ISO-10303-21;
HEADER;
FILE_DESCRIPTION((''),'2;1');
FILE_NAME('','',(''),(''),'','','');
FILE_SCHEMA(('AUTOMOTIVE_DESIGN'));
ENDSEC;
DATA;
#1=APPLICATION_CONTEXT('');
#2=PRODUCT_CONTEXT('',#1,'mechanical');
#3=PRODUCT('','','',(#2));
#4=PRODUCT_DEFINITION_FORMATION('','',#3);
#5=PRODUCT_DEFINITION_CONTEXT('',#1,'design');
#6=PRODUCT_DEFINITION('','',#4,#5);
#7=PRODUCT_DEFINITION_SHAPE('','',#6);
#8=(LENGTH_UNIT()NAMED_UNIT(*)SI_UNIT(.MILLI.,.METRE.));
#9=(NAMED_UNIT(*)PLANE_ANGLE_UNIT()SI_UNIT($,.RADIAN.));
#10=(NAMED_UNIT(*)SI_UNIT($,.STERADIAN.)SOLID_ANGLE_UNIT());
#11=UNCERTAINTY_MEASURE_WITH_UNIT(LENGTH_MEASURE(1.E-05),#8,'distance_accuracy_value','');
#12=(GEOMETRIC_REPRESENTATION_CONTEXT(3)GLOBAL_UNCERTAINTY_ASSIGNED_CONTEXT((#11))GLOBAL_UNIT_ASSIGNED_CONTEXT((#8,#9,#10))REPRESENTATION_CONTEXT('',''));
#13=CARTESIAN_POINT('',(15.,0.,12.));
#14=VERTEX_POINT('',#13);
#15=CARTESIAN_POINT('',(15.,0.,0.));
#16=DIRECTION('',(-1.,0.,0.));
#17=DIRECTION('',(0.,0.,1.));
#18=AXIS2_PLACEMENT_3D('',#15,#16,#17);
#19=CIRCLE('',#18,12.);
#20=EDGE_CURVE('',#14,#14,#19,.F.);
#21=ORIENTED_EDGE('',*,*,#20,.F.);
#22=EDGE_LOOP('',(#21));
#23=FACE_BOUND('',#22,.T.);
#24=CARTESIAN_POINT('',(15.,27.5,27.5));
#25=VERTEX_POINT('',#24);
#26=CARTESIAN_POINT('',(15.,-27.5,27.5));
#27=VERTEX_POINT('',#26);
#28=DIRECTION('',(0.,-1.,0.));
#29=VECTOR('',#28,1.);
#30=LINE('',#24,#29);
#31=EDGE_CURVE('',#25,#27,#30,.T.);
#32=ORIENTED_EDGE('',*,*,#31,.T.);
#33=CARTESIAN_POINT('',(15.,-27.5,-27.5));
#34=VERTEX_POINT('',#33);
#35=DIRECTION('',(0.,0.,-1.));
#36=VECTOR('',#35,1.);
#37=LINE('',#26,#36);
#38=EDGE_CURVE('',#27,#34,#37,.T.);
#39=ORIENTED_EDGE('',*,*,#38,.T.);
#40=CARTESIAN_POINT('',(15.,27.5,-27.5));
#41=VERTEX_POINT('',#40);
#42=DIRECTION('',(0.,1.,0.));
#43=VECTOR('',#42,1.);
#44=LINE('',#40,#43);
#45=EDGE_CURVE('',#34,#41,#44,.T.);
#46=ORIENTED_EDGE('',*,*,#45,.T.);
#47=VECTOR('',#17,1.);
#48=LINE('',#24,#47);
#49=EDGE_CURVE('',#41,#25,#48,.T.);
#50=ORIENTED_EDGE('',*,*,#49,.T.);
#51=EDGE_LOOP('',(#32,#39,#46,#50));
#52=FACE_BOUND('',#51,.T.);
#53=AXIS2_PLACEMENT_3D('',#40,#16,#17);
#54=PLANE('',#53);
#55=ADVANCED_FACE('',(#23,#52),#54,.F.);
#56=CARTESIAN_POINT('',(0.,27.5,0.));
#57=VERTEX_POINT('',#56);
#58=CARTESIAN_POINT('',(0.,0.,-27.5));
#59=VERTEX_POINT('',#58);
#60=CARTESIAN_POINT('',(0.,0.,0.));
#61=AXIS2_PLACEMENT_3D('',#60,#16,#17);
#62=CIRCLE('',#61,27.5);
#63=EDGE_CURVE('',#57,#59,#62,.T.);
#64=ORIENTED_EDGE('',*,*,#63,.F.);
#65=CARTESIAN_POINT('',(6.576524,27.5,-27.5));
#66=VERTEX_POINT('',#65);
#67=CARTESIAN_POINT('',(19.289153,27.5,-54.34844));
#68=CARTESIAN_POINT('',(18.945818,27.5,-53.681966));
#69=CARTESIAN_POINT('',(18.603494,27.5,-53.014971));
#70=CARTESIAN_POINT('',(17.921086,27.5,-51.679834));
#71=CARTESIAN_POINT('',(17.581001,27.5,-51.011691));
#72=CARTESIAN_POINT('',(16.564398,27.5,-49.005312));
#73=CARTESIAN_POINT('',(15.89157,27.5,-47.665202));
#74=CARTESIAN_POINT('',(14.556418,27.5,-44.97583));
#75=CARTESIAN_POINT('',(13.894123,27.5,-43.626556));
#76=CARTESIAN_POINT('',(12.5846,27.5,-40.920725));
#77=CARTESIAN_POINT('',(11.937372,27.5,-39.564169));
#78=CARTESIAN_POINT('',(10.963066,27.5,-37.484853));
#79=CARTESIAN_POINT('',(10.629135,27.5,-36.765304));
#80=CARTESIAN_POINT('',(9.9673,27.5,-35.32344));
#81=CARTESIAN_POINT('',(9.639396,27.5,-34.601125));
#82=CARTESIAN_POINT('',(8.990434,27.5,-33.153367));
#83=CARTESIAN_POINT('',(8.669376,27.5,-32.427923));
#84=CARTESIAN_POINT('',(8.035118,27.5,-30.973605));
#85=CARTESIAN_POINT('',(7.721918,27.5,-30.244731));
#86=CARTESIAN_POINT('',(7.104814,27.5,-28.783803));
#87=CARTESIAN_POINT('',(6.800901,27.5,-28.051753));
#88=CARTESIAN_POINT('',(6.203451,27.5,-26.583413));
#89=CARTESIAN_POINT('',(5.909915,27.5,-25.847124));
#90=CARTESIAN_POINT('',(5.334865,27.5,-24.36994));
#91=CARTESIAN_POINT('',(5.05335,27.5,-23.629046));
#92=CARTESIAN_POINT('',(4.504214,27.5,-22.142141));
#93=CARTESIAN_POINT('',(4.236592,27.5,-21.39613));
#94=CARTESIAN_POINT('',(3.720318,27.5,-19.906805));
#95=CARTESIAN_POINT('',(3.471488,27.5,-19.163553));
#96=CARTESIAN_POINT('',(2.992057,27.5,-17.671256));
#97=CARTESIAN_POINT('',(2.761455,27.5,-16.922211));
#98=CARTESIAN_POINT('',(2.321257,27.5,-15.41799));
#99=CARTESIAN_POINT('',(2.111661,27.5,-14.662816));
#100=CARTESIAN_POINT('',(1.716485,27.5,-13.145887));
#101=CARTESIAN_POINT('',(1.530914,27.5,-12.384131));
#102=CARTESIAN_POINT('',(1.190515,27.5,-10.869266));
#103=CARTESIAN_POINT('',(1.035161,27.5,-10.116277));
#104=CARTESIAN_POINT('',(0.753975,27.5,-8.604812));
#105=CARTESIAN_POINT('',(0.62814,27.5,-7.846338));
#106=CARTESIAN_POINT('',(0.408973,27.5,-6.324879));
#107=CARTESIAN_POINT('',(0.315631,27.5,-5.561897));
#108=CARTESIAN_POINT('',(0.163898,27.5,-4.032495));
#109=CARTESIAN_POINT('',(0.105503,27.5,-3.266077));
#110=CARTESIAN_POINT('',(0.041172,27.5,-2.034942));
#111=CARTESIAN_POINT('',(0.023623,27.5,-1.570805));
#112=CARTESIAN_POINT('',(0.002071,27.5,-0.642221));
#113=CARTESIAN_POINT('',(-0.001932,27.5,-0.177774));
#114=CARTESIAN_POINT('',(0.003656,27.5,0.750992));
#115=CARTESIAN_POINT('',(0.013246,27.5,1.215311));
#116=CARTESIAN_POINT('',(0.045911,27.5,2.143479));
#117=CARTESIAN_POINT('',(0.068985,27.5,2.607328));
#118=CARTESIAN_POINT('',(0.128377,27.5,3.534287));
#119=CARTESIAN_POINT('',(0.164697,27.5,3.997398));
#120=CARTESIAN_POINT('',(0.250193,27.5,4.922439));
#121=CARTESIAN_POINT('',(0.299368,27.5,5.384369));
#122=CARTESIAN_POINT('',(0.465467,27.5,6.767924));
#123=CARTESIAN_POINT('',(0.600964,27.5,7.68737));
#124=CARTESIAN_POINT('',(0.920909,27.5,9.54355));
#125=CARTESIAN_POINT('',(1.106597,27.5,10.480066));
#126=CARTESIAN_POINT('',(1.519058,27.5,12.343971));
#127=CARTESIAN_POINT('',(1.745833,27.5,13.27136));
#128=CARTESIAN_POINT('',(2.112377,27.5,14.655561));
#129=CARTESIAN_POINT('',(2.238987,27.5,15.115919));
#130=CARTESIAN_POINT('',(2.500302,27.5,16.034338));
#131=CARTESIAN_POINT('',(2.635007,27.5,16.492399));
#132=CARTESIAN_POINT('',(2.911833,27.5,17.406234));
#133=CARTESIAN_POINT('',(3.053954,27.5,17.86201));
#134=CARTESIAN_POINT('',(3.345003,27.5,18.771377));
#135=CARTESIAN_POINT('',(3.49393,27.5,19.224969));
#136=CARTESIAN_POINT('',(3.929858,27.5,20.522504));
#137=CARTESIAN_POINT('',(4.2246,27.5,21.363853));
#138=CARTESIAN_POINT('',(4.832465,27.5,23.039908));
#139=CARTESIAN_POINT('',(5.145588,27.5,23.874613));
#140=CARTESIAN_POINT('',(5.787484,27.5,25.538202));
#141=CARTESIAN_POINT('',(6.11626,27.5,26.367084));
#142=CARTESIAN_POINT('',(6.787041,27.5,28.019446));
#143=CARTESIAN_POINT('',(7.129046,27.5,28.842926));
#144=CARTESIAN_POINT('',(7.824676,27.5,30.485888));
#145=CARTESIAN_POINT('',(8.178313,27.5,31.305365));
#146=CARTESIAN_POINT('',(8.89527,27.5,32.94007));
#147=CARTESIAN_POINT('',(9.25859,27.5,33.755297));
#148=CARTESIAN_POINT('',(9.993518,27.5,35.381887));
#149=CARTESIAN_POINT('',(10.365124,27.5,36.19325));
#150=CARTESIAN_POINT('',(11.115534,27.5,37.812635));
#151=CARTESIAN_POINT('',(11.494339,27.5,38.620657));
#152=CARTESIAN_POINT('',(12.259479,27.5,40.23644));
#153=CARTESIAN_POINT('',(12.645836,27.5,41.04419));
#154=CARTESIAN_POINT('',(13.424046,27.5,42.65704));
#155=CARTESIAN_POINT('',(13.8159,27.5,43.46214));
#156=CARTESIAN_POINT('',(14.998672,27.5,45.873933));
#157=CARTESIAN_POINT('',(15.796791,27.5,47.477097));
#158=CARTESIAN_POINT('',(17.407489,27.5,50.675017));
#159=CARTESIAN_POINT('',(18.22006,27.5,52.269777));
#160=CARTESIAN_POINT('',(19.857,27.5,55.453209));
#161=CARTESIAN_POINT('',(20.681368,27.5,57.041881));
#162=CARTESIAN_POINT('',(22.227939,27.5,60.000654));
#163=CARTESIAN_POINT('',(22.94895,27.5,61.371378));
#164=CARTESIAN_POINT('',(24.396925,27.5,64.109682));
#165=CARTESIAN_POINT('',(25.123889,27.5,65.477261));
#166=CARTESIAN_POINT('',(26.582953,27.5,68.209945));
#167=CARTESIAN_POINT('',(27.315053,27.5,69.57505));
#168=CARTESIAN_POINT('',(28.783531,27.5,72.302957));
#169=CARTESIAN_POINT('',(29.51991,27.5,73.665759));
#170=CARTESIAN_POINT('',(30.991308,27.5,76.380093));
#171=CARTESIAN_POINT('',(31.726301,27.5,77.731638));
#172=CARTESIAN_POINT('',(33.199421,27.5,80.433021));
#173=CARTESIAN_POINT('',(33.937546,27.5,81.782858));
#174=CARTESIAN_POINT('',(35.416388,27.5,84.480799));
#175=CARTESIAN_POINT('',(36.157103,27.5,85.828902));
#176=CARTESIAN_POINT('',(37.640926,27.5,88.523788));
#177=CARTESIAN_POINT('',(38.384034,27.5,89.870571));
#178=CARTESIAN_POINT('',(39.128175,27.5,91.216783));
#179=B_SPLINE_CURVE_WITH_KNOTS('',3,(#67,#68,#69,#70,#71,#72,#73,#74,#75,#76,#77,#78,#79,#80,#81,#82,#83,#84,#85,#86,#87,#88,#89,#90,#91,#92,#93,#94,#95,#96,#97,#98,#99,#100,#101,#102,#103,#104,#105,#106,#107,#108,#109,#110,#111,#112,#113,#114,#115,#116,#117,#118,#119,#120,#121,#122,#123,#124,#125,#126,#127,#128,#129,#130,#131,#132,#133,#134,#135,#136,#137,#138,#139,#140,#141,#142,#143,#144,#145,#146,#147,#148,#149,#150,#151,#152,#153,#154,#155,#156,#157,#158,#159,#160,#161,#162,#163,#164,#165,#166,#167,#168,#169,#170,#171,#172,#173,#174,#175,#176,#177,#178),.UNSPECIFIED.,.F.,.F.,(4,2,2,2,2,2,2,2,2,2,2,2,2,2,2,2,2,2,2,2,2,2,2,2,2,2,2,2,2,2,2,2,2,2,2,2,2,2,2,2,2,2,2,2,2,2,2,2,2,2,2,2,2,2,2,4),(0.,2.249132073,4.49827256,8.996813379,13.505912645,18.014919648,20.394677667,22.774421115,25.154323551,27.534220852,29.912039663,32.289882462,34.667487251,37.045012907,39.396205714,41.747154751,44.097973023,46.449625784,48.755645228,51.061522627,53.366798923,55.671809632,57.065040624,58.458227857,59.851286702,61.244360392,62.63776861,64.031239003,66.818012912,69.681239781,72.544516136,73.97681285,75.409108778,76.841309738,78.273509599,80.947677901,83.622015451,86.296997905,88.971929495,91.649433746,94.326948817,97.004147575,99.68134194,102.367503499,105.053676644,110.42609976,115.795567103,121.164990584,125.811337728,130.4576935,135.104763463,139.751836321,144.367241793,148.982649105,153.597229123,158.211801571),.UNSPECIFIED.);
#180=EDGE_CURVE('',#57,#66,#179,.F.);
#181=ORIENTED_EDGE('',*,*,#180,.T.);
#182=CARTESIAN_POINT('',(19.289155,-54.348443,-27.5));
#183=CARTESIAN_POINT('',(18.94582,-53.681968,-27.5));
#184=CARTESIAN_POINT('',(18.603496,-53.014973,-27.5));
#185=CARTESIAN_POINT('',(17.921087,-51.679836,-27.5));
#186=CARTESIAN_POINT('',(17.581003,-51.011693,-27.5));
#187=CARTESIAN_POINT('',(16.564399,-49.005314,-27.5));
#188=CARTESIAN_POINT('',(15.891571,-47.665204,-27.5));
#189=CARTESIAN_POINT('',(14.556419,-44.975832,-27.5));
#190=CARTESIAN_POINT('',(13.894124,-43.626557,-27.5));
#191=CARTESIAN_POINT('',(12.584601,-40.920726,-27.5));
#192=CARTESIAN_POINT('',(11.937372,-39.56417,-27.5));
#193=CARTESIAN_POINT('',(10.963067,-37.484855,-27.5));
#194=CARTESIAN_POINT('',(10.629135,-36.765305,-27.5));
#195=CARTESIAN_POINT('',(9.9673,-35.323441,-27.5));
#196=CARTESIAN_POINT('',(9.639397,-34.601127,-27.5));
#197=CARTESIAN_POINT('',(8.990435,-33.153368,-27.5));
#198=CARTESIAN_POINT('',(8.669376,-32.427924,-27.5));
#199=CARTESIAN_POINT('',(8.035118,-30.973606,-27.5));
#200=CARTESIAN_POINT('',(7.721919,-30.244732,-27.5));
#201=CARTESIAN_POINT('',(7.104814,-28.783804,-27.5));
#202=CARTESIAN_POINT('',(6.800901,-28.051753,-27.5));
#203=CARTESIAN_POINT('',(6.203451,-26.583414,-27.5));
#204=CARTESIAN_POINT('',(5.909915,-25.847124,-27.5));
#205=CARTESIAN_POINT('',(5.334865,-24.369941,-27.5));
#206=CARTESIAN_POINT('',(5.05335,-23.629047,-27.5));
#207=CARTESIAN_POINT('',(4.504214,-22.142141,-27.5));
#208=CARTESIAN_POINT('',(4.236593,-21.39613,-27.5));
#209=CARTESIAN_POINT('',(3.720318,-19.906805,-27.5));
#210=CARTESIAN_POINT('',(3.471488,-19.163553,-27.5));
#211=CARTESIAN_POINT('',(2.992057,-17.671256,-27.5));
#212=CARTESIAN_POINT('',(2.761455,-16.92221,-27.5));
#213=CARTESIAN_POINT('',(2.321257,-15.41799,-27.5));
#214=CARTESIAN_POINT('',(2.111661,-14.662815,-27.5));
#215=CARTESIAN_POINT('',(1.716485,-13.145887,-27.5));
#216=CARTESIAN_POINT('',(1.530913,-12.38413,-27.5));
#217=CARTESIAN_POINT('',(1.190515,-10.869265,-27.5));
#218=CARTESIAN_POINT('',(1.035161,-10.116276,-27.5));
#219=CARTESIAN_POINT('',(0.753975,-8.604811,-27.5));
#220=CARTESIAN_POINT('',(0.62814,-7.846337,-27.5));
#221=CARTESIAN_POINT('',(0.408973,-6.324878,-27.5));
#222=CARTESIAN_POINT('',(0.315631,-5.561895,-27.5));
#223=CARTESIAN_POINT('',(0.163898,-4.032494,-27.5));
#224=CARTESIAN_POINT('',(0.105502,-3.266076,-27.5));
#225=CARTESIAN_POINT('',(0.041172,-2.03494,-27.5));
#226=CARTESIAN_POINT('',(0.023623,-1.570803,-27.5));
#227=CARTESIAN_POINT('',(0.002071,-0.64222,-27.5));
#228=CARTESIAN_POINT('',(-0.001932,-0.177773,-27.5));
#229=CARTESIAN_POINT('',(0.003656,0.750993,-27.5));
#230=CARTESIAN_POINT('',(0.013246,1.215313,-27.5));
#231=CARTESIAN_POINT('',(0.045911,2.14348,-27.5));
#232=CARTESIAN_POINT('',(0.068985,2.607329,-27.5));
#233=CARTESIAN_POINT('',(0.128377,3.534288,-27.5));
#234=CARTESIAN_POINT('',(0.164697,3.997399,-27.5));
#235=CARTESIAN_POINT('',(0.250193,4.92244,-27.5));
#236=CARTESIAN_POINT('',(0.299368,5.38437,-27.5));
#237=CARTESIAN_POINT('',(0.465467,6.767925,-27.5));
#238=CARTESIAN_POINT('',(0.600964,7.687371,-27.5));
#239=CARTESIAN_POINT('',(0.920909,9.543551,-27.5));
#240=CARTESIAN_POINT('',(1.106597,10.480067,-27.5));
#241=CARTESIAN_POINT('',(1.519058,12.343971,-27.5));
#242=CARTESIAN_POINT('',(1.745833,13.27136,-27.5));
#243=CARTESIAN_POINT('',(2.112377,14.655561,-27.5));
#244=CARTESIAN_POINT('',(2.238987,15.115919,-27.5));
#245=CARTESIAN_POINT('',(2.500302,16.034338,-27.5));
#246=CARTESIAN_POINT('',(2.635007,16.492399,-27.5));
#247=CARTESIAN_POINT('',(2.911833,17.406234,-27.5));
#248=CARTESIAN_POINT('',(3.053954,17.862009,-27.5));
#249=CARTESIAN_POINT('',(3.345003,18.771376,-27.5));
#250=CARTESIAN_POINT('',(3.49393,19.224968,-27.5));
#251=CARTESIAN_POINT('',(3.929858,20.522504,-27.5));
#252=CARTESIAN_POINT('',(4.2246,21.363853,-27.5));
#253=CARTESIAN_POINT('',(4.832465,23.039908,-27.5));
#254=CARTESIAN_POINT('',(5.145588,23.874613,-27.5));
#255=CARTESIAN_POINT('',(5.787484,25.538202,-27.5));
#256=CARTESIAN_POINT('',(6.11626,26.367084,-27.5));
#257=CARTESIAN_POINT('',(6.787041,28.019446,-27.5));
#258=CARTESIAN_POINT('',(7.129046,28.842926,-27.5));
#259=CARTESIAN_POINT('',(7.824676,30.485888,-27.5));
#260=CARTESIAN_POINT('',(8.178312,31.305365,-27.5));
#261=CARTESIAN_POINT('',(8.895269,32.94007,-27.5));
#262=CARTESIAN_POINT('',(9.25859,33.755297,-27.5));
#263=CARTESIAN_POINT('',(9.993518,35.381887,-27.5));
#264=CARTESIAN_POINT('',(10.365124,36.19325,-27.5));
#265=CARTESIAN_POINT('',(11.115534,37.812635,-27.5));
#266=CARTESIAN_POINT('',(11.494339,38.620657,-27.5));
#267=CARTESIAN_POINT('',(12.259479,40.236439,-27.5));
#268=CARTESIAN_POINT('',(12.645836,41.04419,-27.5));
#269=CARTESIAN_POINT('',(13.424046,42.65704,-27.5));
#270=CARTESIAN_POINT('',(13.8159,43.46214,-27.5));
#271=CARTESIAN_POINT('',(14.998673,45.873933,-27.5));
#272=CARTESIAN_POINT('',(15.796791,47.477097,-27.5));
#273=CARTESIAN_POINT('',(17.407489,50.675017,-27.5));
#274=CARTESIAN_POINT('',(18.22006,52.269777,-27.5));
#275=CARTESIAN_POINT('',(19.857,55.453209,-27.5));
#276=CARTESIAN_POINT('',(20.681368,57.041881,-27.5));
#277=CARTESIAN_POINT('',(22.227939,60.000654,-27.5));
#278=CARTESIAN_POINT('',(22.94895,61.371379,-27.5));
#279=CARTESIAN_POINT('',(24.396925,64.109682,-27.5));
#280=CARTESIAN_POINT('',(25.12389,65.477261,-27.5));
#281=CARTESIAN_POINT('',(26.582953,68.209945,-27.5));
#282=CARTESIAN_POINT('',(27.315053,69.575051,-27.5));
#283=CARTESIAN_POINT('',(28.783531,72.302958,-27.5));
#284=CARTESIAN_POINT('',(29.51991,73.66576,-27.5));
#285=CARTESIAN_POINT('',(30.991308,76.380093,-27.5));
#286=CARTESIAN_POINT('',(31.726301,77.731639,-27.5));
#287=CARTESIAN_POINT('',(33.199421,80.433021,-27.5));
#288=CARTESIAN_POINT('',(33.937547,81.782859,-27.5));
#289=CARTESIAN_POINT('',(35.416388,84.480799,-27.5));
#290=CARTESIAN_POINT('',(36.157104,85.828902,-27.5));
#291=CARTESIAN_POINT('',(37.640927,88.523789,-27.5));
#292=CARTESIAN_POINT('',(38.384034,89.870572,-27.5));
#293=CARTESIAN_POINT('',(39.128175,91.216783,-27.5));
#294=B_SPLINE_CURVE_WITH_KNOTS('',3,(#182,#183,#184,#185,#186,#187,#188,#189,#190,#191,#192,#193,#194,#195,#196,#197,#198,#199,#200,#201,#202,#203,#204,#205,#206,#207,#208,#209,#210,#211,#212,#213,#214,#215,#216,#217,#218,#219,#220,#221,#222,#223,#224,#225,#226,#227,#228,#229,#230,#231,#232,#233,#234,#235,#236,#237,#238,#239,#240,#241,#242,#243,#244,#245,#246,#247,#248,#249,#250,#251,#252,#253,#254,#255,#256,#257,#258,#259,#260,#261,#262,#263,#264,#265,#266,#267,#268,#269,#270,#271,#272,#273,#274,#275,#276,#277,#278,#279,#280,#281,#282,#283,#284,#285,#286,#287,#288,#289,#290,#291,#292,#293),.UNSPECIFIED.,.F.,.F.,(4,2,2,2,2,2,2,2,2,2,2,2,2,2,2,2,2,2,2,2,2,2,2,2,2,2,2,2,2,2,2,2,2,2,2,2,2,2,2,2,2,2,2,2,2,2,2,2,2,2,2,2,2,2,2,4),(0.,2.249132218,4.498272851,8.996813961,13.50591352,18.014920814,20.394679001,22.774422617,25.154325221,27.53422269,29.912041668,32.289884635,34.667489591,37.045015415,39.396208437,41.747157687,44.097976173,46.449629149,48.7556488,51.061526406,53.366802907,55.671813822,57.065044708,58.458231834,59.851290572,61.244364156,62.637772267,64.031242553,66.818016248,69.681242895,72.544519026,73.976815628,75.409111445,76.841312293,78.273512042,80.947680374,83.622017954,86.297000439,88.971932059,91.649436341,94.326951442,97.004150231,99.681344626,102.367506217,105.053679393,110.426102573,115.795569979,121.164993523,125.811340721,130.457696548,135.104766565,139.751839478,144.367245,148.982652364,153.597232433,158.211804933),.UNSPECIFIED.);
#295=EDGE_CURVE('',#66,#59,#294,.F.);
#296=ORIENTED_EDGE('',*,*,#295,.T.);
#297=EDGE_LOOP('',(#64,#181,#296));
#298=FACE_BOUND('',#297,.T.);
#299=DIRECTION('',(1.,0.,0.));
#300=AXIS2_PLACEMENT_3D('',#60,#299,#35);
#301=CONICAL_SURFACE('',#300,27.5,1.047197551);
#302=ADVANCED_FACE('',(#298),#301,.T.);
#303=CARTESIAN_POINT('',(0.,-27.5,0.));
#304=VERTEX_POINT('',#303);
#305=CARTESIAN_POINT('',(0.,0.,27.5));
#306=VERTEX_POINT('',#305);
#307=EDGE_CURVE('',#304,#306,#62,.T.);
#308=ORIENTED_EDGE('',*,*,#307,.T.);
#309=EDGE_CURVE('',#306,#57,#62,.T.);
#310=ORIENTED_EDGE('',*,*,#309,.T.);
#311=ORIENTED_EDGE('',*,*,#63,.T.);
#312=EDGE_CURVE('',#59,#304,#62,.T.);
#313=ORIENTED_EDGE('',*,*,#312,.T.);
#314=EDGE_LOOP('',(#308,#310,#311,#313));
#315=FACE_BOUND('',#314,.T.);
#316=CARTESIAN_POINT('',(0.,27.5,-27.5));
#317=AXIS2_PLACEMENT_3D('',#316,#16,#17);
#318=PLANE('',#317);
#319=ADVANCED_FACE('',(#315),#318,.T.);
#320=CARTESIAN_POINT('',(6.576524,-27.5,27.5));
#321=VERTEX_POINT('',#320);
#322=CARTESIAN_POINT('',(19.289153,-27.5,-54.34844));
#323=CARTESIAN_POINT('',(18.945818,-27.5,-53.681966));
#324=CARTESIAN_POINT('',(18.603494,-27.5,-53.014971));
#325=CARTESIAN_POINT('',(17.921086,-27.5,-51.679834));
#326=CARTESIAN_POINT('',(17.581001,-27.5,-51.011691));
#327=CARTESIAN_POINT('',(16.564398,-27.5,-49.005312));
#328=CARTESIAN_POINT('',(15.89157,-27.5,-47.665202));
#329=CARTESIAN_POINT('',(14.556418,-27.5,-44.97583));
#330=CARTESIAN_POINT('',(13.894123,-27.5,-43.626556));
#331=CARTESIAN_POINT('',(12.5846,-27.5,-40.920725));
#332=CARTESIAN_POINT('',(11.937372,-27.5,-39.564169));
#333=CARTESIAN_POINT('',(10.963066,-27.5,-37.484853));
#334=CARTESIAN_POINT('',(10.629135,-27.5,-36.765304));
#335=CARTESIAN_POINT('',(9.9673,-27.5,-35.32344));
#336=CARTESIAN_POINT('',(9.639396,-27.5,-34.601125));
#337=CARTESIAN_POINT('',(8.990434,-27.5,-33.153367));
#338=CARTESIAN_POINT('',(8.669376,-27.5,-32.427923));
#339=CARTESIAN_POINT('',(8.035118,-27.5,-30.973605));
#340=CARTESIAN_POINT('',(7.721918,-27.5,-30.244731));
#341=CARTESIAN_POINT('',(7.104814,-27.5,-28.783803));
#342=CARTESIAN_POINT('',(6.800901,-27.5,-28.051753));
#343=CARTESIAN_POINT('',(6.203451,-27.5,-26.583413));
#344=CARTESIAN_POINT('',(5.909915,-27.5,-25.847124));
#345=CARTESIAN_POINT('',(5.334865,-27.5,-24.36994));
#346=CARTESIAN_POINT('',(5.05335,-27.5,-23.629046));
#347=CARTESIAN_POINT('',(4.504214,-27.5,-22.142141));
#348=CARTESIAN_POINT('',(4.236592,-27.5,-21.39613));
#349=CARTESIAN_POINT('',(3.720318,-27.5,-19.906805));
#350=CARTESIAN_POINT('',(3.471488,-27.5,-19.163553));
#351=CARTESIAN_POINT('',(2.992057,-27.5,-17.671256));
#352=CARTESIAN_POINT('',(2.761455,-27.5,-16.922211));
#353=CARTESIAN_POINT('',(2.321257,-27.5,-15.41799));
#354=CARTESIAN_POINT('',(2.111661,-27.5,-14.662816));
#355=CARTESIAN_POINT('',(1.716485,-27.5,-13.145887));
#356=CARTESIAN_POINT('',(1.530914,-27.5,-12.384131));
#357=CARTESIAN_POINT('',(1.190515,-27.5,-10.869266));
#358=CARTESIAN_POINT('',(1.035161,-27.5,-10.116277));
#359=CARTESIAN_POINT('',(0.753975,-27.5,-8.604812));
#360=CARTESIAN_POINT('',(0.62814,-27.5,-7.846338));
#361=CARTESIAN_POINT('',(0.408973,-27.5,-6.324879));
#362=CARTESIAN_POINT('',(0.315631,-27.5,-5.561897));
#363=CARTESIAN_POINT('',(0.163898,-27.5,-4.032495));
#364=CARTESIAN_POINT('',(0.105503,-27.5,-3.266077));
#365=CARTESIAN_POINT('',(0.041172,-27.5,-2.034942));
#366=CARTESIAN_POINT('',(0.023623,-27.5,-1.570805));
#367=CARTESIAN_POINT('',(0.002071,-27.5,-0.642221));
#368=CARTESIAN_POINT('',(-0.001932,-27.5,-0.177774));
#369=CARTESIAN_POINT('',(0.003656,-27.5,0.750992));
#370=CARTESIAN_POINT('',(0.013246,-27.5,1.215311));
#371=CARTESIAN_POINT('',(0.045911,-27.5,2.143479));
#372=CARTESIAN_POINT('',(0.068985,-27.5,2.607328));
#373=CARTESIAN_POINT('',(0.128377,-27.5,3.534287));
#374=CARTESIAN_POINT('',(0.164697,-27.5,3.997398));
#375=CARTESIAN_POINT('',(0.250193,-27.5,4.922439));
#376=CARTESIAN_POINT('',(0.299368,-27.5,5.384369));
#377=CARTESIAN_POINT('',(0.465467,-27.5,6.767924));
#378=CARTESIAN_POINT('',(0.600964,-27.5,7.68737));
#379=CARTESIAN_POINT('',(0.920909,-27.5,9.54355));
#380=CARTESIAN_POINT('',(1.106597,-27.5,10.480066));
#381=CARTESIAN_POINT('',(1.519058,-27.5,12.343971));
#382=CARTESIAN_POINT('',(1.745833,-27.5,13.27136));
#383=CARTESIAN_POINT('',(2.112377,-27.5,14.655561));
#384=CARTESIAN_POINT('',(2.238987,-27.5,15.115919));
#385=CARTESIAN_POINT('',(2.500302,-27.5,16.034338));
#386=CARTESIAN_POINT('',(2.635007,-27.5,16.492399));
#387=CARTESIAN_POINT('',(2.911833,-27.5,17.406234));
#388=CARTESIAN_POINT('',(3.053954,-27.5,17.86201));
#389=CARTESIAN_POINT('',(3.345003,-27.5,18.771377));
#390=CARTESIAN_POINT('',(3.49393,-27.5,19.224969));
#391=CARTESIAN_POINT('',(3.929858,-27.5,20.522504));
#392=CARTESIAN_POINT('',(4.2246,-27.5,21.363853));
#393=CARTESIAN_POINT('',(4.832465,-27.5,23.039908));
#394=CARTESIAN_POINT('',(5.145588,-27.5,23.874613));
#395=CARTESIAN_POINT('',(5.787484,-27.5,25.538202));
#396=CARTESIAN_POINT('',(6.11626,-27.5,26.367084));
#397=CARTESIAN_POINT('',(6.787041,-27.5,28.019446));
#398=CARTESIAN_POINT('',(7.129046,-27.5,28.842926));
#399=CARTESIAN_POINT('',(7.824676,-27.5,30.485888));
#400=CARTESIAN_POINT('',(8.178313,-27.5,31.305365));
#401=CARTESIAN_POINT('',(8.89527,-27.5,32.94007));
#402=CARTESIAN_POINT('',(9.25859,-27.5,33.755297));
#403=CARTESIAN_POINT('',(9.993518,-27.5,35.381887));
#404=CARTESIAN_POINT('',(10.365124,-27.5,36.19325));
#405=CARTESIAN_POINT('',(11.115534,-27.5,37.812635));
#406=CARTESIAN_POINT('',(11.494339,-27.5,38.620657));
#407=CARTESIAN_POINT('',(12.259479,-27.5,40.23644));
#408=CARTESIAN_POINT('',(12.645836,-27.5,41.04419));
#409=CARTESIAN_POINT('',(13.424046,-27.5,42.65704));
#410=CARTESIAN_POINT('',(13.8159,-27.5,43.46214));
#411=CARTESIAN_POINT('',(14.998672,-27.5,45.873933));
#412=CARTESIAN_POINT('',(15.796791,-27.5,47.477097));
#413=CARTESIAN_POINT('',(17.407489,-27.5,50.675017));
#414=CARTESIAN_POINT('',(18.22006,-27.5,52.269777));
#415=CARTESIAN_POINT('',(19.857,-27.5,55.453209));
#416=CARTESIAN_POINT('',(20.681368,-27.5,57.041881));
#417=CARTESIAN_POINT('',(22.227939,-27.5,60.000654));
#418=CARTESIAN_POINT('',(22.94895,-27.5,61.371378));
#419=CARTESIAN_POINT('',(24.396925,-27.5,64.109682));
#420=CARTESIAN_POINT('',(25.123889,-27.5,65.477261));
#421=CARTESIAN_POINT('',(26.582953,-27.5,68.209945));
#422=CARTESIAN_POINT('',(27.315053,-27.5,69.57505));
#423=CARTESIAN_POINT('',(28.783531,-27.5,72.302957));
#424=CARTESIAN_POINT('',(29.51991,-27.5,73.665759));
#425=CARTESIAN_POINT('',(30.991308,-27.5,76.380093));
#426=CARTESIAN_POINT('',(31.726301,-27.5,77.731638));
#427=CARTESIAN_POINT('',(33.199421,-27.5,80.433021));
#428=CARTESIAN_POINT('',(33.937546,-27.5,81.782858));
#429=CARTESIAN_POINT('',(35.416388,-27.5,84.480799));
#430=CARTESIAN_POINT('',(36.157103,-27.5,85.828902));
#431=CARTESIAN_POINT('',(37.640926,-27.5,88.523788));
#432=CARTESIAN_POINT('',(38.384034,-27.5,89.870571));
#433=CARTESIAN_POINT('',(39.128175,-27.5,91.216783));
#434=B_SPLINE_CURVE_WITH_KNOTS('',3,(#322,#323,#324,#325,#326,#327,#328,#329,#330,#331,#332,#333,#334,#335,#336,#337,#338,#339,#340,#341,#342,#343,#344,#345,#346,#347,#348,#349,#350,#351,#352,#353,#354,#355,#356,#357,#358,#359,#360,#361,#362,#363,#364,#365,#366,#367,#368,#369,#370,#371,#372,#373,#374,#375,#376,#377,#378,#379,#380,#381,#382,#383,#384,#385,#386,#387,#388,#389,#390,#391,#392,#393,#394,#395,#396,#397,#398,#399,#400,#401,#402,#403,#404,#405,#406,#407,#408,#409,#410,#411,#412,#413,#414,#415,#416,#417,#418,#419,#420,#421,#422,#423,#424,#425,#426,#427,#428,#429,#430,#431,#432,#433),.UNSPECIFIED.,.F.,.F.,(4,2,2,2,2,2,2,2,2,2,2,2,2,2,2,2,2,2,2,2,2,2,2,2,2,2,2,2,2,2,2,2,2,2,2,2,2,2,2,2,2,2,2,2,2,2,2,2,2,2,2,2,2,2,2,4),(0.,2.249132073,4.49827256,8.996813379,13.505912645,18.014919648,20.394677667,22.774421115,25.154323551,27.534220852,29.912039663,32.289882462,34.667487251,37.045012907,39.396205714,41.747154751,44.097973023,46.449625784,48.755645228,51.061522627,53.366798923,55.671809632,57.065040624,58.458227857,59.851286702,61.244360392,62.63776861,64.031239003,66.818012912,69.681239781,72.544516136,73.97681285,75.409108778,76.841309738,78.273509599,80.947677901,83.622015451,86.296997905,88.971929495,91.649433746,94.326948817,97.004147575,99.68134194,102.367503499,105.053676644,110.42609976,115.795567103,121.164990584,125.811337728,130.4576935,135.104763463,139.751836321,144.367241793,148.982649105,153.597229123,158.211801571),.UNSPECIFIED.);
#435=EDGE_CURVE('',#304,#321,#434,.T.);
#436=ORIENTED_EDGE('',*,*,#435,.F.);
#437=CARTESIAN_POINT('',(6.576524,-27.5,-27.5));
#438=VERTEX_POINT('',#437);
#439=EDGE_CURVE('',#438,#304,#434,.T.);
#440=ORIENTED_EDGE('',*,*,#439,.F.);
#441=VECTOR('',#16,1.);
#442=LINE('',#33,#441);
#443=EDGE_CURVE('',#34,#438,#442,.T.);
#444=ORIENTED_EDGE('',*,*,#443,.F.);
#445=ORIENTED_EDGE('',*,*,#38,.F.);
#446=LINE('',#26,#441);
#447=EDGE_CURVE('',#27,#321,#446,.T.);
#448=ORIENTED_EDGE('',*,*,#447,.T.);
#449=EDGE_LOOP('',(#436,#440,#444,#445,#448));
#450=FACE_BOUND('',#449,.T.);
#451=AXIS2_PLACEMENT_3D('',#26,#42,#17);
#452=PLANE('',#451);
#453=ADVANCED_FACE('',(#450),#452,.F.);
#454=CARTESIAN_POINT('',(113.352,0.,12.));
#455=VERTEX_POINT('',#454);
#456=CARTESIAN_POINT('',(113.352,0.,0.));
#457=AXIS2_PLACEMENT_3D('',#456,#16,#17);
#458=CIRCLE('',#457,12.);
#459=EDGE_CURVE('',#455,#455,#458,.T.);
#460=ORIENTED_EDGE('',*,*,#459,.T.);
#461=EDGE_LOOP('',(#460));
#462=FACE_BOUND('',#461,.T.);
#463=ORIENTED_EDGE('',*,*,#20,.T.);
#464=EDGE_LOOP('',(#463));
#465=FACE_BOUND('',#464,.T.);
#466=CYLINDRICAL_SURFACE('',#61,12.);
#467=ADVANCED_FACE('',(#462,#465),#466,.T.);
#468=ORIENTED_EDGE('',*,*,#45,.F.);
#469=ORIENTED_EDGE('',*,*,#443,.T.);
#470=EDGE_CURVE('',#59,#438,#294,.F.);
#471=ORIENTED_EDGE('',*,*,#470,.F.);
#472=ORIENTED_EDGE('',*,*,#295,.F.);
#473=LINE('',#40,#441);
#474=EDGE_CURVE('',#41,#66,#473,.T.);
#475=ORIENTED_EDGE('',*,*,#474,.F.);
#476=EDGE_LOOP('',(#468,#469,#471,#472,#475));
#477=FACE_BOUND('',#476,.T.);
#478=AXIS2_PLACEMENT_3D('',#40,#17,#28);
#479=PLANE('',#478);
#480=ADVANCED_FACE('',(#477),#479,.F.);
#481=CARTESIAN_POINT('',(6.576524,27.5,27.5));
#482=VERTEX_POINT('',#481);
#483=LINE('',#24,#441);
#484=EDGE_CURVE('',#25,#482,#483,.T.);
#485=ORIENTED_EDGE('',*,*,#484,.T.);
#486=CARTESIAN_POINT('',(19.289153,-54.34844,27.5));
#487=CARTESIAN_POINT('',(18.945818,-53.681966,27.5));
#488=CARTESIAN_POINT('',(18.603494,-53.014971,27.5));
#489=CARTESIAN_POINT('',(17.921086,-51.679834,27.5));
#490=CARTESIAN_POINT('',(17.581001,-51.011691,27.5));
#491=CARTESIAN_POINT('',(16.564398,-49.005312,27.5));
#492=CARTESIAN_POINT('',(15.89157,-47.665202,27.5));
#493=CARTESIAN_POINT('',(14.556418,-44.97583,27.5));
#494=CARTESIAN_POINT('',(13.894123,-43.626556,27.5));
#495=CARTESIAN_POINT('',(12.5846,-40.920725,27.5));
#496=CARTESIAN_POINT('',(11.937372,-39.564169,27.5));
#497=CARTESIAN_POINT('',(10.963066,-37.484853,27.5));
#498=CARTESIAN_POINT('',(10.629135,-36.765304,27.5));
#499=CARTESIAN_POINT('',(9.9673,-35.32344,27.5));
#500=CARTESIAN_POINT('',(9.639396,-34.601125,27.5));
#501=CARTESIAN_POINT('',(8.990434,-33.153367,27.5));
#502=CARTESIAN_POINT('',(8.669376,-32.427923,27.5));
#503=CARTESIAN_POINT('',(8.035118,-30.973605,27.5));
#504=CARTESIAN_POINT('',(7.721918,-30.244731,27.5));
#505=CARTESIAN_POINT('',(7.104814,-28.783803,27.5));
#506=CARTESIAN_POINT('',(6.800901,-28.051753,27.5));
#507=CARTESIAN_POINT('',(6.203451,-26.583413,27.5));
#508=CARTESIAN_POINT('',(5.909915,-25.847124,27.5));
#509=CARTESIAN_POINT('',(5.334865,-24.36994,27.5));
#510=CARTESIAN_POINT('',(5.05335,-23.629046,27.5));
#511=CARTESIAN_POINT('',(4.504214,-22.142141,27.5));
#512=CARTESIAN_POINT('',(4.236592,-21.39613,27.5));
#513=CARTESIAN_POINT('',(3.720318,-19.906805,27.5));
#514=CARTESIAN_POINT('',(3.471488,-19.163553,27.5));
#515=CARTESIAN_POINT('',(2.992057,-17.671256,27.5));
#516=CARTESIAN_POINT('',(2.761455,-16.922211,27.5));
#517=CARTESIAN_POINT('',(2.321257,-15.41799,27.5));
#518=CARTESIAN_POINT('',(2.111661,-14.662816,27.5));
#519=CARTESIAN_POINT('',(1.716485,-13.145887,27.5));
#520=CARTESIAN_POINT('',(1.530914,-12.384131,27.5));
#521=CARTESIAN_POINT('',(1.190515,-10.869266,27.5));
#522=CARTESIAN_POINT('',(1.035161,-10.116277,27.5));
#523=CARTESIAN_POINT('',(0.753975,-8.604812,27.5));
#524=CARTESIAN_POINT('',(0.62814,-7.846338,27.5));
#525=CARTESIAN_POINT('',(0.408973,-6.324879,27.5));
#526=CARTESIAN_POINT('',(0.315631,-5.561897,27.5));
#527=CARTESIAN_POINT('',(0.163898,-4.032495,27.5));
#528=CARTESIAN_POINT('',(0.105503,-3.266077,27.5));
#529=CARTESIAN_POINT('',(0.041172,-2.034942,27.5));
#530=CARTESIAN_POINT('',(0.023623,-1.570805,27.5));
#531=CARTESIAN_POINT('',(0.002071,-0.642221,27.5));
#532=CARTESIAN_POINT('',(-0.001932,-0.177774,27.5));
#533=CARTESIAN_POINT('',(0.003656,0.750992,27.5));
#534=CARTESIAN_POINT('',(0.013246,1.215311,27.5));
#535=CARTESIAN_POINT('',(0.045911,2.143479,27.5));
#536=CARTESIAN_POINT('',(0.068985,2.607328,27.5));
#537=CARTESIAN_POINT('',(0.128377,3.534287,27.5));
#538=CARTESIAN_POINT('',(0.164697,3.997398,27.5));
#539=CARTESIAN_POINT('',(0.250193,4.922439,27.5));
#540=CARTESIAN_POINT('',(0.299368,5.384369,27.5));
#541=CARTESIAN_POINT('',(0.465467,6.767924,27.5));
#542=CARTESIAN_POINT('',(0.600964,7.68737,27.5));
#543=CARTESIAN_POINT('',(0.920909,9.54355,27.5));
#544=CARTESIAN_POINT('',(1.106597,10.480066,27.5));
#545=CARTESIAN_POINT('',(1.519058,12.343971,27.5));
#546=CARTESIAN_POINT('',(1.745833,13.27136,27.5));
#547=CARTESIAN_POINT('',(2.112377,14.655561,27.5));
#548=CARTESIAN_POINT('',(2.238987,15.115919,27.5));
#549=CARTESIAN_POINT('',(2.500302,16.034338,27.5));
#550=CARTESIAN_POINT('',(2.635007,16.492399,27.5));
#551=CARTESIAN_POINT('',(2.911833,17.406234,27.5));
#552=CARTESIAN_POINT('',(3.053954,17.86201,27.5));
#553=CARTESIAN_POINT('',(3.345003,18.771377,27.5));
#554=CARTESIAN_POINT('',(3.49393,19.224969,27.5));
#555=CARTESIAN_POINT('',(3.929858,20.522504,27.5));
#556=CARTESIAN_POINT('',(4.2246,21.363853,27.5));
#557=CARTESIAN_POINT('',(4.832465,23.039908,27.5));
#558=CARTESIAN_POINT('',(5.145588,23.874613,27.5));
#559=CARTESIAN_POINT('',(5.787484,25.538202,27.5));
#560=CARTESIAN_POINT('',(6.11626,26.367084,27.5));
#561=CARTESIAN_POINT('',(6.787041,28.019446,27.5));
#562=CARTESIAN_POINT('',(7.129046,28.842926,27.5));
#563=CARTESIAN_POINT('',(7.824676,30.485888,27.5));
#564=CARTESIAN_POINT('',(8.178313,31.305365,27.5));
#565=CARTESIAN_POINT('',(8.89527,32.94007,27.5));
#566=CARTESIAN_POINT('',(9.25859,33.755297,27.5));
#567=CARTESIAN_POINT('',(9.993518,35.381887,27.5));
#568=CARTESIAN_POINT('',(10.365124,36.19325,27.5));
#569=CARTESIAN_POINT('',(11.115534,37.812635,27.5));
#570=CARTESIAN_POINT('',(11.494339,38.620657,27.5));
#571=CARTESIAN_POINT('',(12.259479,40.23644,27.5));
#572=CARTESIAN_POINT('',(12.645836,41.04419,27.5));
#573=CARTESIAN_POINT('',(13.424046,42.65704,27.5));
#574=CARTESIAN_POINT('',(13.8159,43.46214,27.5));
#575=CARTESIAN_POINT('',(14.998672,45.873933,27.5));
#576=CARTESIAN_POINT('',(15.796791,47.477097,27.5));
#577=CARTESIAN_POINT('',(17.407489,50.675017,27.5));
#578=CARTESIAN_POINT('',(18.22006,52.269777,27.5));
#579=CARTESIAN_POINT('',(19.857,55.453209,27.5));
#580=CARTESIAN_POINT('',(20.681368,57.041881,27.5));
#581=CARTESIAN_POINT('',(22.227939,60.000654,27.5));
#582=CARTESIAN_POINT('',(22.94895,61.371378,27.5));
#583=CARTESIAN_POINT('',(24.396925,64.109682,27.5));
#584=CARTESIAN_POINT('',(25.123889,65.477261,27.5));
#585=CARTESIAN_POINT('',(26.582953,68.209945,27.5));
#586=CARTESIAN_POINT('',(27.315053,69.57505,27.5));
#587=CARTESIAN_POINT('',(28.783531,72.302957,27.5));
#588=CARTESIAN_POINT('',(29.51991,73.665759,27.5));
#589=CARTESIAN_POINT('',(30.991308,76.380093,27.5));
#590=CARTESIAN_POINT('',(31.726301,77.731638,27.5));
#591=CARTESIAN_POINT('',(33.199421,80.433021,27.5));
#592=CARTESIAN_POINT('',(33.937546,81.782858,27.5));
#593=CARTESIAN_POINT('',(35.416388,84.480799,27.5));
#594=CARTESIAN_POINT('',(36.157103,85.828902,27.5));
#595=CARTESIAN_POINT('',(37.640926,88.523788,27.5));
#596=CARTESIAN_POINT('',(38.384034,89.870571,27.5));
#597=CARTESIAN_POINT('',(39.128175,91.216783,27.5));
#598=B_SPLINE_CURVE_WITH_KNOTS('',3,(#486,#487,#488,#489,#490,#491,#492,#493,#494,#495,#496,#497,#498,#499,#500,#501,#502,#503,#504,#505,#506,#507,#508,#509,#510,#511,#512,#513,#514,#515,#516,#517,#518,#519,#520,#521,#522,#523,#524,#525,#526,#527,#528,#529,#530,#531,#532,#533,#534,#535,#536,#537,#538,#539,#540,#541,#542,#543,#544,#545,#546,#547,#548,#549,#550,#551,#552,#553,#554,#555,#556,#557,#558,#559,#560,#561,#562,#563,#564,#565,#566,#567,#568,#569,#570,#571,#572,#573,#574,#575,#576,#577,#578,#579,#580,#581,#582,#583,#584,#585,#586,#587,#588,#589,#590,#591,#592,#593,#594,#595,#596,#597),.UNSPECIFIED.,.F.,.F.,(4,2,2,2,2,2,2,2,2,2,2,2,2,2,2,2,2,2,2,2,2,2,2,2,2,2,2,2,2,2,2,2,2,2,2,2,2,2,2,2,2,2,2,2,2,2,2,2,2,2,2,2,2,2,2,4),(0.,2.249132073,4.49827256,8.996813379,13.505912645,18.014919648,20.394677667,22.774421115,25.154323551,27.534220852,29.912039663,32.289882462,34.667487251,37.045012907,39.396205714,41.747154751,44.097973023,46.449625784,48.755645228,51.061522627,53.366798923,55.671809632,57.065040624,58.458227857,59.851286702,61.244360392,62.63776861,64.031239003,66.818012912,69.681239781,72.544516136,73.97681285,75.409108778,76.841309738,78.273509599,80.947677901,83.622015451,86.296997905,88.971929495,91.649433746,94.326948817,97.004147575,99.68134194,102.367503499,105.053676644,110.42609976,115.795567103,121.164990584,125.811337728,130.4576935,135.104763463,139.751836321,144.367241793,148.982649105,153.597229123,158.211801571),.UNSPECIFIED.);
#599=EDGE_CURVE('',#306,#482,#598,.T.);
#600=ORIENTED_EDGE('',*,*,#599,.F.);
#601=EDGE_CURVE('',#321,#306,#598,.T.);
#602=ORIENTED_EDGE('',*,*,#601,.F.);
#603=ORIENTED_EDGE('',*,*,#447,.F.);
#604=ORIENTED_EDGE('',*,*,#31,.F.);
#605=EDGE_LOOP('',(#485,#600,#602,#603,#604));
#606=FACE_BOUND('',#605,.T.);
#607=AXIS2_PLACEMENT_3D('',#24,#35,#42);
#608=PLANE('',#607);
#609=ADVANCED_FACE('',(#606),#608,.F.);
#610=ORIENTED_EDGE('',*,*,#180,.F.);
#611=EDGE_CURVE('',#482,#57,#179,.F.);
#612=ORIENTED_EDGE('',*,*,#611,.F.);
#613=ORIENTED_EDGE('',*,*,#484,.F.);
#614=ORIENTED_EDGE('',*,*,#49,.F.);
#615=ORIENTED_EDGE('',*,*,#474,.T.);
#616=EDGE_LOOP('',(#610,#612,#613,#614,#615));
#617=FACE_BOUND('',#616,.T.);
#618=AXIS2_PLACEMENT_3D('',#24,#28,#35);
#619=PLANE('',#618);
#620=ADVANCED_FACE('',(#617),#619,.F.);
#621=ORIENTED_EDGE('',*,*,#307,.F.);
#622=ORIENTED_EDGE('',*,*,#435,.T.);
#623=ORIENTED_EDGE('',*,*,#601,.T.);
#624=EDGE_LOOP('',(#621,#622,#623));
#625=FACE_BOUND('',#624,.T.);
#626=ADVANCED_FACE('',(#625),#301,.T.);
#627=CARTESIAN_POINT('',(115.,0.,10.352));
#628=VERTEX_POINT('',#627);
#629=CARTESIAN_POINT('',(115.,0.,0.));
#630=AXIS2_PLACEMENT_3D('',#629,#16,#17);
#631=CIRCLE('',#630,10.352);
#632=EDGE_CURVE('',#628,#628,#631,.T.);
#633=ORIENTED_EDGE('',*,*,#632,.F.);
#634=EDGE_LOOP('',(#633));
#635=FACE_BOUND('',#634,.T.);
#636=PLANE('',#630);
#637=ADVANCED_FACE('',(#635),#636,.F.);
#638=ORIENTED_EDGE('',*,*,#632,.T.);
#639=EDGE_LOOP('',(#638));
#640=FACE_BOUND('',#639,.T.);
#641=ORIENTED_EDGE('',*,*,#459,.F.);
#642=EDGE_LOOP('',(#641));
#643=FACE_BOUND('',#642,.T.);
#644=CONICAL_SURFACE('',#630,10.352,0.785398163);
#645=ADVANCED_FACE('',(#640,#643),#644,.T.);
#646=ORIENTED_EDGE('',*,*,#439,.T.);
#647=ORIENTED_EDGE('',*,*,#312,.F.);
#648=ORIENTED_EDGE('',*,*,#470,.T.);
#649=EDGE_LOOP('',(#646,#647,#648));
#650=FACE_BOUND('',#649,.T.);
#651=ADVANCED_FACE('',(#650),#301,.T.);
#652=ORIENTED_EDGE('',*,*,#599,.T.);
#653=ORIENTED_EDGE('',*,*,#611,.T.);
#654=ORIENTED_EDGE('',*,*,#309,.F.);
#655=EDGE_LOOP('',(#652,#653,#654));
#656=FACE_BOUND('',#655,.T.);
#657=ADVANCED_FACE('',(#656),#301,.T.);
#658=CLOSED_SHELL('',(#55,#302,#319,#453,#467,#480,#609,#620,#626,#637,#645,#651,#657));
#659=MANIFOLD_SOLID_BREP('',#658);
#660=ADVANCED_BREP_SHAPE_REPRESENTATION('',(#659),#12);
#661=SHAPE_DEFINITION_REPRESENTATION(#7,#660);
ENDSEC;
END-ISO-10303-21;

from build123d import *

# Parameters (mm, degrees)
SKETCH1_W      = 55
SKETCH1_H      = 55
BASEHEAD_DEPTH = 15


with BuildPart() as part:
    # Sketch1 → BaseHead (new body)
    with BuildSketch(Plane(origin=(0, 0, 0), x_dir=(0, 0, -1), z_dir=(1, 0, 0))):
        Rectangle(SKETCH1_W, SKETCH1_H)
    extrude(amount=BASEHEAD_DEPTH)

    # BodySke → BaseBody (revolve)
    with BuildSketch(Plane.XY, mode=Mode.PRIVATE) as basebody_sk:
        Polygon((0, 0), (115, 0), (115, 10.352), (113.352, 12), (0, 12), align=None)
    revolve(basebody_sk.sketch.rotate(Axis((0, 0, 0), (1, 0, 0)), 90), axis=Axis((0, 0, 0), (1, 0, 0)))

    # Sketch3 → HeadChamfer (revolve, cut)
    with BuildSketch(Plane.XY):
        Polygon((0, 27.5), (8.082903769, 41.5), (8.082903769, 42.5), (-1, 42.5), (-1, 27.5), align=None)
    revolve(axis=Axis((0, 0, 0), (1, 0, 0)), mode=Mode.SUBTRACT)


solid = part.part
